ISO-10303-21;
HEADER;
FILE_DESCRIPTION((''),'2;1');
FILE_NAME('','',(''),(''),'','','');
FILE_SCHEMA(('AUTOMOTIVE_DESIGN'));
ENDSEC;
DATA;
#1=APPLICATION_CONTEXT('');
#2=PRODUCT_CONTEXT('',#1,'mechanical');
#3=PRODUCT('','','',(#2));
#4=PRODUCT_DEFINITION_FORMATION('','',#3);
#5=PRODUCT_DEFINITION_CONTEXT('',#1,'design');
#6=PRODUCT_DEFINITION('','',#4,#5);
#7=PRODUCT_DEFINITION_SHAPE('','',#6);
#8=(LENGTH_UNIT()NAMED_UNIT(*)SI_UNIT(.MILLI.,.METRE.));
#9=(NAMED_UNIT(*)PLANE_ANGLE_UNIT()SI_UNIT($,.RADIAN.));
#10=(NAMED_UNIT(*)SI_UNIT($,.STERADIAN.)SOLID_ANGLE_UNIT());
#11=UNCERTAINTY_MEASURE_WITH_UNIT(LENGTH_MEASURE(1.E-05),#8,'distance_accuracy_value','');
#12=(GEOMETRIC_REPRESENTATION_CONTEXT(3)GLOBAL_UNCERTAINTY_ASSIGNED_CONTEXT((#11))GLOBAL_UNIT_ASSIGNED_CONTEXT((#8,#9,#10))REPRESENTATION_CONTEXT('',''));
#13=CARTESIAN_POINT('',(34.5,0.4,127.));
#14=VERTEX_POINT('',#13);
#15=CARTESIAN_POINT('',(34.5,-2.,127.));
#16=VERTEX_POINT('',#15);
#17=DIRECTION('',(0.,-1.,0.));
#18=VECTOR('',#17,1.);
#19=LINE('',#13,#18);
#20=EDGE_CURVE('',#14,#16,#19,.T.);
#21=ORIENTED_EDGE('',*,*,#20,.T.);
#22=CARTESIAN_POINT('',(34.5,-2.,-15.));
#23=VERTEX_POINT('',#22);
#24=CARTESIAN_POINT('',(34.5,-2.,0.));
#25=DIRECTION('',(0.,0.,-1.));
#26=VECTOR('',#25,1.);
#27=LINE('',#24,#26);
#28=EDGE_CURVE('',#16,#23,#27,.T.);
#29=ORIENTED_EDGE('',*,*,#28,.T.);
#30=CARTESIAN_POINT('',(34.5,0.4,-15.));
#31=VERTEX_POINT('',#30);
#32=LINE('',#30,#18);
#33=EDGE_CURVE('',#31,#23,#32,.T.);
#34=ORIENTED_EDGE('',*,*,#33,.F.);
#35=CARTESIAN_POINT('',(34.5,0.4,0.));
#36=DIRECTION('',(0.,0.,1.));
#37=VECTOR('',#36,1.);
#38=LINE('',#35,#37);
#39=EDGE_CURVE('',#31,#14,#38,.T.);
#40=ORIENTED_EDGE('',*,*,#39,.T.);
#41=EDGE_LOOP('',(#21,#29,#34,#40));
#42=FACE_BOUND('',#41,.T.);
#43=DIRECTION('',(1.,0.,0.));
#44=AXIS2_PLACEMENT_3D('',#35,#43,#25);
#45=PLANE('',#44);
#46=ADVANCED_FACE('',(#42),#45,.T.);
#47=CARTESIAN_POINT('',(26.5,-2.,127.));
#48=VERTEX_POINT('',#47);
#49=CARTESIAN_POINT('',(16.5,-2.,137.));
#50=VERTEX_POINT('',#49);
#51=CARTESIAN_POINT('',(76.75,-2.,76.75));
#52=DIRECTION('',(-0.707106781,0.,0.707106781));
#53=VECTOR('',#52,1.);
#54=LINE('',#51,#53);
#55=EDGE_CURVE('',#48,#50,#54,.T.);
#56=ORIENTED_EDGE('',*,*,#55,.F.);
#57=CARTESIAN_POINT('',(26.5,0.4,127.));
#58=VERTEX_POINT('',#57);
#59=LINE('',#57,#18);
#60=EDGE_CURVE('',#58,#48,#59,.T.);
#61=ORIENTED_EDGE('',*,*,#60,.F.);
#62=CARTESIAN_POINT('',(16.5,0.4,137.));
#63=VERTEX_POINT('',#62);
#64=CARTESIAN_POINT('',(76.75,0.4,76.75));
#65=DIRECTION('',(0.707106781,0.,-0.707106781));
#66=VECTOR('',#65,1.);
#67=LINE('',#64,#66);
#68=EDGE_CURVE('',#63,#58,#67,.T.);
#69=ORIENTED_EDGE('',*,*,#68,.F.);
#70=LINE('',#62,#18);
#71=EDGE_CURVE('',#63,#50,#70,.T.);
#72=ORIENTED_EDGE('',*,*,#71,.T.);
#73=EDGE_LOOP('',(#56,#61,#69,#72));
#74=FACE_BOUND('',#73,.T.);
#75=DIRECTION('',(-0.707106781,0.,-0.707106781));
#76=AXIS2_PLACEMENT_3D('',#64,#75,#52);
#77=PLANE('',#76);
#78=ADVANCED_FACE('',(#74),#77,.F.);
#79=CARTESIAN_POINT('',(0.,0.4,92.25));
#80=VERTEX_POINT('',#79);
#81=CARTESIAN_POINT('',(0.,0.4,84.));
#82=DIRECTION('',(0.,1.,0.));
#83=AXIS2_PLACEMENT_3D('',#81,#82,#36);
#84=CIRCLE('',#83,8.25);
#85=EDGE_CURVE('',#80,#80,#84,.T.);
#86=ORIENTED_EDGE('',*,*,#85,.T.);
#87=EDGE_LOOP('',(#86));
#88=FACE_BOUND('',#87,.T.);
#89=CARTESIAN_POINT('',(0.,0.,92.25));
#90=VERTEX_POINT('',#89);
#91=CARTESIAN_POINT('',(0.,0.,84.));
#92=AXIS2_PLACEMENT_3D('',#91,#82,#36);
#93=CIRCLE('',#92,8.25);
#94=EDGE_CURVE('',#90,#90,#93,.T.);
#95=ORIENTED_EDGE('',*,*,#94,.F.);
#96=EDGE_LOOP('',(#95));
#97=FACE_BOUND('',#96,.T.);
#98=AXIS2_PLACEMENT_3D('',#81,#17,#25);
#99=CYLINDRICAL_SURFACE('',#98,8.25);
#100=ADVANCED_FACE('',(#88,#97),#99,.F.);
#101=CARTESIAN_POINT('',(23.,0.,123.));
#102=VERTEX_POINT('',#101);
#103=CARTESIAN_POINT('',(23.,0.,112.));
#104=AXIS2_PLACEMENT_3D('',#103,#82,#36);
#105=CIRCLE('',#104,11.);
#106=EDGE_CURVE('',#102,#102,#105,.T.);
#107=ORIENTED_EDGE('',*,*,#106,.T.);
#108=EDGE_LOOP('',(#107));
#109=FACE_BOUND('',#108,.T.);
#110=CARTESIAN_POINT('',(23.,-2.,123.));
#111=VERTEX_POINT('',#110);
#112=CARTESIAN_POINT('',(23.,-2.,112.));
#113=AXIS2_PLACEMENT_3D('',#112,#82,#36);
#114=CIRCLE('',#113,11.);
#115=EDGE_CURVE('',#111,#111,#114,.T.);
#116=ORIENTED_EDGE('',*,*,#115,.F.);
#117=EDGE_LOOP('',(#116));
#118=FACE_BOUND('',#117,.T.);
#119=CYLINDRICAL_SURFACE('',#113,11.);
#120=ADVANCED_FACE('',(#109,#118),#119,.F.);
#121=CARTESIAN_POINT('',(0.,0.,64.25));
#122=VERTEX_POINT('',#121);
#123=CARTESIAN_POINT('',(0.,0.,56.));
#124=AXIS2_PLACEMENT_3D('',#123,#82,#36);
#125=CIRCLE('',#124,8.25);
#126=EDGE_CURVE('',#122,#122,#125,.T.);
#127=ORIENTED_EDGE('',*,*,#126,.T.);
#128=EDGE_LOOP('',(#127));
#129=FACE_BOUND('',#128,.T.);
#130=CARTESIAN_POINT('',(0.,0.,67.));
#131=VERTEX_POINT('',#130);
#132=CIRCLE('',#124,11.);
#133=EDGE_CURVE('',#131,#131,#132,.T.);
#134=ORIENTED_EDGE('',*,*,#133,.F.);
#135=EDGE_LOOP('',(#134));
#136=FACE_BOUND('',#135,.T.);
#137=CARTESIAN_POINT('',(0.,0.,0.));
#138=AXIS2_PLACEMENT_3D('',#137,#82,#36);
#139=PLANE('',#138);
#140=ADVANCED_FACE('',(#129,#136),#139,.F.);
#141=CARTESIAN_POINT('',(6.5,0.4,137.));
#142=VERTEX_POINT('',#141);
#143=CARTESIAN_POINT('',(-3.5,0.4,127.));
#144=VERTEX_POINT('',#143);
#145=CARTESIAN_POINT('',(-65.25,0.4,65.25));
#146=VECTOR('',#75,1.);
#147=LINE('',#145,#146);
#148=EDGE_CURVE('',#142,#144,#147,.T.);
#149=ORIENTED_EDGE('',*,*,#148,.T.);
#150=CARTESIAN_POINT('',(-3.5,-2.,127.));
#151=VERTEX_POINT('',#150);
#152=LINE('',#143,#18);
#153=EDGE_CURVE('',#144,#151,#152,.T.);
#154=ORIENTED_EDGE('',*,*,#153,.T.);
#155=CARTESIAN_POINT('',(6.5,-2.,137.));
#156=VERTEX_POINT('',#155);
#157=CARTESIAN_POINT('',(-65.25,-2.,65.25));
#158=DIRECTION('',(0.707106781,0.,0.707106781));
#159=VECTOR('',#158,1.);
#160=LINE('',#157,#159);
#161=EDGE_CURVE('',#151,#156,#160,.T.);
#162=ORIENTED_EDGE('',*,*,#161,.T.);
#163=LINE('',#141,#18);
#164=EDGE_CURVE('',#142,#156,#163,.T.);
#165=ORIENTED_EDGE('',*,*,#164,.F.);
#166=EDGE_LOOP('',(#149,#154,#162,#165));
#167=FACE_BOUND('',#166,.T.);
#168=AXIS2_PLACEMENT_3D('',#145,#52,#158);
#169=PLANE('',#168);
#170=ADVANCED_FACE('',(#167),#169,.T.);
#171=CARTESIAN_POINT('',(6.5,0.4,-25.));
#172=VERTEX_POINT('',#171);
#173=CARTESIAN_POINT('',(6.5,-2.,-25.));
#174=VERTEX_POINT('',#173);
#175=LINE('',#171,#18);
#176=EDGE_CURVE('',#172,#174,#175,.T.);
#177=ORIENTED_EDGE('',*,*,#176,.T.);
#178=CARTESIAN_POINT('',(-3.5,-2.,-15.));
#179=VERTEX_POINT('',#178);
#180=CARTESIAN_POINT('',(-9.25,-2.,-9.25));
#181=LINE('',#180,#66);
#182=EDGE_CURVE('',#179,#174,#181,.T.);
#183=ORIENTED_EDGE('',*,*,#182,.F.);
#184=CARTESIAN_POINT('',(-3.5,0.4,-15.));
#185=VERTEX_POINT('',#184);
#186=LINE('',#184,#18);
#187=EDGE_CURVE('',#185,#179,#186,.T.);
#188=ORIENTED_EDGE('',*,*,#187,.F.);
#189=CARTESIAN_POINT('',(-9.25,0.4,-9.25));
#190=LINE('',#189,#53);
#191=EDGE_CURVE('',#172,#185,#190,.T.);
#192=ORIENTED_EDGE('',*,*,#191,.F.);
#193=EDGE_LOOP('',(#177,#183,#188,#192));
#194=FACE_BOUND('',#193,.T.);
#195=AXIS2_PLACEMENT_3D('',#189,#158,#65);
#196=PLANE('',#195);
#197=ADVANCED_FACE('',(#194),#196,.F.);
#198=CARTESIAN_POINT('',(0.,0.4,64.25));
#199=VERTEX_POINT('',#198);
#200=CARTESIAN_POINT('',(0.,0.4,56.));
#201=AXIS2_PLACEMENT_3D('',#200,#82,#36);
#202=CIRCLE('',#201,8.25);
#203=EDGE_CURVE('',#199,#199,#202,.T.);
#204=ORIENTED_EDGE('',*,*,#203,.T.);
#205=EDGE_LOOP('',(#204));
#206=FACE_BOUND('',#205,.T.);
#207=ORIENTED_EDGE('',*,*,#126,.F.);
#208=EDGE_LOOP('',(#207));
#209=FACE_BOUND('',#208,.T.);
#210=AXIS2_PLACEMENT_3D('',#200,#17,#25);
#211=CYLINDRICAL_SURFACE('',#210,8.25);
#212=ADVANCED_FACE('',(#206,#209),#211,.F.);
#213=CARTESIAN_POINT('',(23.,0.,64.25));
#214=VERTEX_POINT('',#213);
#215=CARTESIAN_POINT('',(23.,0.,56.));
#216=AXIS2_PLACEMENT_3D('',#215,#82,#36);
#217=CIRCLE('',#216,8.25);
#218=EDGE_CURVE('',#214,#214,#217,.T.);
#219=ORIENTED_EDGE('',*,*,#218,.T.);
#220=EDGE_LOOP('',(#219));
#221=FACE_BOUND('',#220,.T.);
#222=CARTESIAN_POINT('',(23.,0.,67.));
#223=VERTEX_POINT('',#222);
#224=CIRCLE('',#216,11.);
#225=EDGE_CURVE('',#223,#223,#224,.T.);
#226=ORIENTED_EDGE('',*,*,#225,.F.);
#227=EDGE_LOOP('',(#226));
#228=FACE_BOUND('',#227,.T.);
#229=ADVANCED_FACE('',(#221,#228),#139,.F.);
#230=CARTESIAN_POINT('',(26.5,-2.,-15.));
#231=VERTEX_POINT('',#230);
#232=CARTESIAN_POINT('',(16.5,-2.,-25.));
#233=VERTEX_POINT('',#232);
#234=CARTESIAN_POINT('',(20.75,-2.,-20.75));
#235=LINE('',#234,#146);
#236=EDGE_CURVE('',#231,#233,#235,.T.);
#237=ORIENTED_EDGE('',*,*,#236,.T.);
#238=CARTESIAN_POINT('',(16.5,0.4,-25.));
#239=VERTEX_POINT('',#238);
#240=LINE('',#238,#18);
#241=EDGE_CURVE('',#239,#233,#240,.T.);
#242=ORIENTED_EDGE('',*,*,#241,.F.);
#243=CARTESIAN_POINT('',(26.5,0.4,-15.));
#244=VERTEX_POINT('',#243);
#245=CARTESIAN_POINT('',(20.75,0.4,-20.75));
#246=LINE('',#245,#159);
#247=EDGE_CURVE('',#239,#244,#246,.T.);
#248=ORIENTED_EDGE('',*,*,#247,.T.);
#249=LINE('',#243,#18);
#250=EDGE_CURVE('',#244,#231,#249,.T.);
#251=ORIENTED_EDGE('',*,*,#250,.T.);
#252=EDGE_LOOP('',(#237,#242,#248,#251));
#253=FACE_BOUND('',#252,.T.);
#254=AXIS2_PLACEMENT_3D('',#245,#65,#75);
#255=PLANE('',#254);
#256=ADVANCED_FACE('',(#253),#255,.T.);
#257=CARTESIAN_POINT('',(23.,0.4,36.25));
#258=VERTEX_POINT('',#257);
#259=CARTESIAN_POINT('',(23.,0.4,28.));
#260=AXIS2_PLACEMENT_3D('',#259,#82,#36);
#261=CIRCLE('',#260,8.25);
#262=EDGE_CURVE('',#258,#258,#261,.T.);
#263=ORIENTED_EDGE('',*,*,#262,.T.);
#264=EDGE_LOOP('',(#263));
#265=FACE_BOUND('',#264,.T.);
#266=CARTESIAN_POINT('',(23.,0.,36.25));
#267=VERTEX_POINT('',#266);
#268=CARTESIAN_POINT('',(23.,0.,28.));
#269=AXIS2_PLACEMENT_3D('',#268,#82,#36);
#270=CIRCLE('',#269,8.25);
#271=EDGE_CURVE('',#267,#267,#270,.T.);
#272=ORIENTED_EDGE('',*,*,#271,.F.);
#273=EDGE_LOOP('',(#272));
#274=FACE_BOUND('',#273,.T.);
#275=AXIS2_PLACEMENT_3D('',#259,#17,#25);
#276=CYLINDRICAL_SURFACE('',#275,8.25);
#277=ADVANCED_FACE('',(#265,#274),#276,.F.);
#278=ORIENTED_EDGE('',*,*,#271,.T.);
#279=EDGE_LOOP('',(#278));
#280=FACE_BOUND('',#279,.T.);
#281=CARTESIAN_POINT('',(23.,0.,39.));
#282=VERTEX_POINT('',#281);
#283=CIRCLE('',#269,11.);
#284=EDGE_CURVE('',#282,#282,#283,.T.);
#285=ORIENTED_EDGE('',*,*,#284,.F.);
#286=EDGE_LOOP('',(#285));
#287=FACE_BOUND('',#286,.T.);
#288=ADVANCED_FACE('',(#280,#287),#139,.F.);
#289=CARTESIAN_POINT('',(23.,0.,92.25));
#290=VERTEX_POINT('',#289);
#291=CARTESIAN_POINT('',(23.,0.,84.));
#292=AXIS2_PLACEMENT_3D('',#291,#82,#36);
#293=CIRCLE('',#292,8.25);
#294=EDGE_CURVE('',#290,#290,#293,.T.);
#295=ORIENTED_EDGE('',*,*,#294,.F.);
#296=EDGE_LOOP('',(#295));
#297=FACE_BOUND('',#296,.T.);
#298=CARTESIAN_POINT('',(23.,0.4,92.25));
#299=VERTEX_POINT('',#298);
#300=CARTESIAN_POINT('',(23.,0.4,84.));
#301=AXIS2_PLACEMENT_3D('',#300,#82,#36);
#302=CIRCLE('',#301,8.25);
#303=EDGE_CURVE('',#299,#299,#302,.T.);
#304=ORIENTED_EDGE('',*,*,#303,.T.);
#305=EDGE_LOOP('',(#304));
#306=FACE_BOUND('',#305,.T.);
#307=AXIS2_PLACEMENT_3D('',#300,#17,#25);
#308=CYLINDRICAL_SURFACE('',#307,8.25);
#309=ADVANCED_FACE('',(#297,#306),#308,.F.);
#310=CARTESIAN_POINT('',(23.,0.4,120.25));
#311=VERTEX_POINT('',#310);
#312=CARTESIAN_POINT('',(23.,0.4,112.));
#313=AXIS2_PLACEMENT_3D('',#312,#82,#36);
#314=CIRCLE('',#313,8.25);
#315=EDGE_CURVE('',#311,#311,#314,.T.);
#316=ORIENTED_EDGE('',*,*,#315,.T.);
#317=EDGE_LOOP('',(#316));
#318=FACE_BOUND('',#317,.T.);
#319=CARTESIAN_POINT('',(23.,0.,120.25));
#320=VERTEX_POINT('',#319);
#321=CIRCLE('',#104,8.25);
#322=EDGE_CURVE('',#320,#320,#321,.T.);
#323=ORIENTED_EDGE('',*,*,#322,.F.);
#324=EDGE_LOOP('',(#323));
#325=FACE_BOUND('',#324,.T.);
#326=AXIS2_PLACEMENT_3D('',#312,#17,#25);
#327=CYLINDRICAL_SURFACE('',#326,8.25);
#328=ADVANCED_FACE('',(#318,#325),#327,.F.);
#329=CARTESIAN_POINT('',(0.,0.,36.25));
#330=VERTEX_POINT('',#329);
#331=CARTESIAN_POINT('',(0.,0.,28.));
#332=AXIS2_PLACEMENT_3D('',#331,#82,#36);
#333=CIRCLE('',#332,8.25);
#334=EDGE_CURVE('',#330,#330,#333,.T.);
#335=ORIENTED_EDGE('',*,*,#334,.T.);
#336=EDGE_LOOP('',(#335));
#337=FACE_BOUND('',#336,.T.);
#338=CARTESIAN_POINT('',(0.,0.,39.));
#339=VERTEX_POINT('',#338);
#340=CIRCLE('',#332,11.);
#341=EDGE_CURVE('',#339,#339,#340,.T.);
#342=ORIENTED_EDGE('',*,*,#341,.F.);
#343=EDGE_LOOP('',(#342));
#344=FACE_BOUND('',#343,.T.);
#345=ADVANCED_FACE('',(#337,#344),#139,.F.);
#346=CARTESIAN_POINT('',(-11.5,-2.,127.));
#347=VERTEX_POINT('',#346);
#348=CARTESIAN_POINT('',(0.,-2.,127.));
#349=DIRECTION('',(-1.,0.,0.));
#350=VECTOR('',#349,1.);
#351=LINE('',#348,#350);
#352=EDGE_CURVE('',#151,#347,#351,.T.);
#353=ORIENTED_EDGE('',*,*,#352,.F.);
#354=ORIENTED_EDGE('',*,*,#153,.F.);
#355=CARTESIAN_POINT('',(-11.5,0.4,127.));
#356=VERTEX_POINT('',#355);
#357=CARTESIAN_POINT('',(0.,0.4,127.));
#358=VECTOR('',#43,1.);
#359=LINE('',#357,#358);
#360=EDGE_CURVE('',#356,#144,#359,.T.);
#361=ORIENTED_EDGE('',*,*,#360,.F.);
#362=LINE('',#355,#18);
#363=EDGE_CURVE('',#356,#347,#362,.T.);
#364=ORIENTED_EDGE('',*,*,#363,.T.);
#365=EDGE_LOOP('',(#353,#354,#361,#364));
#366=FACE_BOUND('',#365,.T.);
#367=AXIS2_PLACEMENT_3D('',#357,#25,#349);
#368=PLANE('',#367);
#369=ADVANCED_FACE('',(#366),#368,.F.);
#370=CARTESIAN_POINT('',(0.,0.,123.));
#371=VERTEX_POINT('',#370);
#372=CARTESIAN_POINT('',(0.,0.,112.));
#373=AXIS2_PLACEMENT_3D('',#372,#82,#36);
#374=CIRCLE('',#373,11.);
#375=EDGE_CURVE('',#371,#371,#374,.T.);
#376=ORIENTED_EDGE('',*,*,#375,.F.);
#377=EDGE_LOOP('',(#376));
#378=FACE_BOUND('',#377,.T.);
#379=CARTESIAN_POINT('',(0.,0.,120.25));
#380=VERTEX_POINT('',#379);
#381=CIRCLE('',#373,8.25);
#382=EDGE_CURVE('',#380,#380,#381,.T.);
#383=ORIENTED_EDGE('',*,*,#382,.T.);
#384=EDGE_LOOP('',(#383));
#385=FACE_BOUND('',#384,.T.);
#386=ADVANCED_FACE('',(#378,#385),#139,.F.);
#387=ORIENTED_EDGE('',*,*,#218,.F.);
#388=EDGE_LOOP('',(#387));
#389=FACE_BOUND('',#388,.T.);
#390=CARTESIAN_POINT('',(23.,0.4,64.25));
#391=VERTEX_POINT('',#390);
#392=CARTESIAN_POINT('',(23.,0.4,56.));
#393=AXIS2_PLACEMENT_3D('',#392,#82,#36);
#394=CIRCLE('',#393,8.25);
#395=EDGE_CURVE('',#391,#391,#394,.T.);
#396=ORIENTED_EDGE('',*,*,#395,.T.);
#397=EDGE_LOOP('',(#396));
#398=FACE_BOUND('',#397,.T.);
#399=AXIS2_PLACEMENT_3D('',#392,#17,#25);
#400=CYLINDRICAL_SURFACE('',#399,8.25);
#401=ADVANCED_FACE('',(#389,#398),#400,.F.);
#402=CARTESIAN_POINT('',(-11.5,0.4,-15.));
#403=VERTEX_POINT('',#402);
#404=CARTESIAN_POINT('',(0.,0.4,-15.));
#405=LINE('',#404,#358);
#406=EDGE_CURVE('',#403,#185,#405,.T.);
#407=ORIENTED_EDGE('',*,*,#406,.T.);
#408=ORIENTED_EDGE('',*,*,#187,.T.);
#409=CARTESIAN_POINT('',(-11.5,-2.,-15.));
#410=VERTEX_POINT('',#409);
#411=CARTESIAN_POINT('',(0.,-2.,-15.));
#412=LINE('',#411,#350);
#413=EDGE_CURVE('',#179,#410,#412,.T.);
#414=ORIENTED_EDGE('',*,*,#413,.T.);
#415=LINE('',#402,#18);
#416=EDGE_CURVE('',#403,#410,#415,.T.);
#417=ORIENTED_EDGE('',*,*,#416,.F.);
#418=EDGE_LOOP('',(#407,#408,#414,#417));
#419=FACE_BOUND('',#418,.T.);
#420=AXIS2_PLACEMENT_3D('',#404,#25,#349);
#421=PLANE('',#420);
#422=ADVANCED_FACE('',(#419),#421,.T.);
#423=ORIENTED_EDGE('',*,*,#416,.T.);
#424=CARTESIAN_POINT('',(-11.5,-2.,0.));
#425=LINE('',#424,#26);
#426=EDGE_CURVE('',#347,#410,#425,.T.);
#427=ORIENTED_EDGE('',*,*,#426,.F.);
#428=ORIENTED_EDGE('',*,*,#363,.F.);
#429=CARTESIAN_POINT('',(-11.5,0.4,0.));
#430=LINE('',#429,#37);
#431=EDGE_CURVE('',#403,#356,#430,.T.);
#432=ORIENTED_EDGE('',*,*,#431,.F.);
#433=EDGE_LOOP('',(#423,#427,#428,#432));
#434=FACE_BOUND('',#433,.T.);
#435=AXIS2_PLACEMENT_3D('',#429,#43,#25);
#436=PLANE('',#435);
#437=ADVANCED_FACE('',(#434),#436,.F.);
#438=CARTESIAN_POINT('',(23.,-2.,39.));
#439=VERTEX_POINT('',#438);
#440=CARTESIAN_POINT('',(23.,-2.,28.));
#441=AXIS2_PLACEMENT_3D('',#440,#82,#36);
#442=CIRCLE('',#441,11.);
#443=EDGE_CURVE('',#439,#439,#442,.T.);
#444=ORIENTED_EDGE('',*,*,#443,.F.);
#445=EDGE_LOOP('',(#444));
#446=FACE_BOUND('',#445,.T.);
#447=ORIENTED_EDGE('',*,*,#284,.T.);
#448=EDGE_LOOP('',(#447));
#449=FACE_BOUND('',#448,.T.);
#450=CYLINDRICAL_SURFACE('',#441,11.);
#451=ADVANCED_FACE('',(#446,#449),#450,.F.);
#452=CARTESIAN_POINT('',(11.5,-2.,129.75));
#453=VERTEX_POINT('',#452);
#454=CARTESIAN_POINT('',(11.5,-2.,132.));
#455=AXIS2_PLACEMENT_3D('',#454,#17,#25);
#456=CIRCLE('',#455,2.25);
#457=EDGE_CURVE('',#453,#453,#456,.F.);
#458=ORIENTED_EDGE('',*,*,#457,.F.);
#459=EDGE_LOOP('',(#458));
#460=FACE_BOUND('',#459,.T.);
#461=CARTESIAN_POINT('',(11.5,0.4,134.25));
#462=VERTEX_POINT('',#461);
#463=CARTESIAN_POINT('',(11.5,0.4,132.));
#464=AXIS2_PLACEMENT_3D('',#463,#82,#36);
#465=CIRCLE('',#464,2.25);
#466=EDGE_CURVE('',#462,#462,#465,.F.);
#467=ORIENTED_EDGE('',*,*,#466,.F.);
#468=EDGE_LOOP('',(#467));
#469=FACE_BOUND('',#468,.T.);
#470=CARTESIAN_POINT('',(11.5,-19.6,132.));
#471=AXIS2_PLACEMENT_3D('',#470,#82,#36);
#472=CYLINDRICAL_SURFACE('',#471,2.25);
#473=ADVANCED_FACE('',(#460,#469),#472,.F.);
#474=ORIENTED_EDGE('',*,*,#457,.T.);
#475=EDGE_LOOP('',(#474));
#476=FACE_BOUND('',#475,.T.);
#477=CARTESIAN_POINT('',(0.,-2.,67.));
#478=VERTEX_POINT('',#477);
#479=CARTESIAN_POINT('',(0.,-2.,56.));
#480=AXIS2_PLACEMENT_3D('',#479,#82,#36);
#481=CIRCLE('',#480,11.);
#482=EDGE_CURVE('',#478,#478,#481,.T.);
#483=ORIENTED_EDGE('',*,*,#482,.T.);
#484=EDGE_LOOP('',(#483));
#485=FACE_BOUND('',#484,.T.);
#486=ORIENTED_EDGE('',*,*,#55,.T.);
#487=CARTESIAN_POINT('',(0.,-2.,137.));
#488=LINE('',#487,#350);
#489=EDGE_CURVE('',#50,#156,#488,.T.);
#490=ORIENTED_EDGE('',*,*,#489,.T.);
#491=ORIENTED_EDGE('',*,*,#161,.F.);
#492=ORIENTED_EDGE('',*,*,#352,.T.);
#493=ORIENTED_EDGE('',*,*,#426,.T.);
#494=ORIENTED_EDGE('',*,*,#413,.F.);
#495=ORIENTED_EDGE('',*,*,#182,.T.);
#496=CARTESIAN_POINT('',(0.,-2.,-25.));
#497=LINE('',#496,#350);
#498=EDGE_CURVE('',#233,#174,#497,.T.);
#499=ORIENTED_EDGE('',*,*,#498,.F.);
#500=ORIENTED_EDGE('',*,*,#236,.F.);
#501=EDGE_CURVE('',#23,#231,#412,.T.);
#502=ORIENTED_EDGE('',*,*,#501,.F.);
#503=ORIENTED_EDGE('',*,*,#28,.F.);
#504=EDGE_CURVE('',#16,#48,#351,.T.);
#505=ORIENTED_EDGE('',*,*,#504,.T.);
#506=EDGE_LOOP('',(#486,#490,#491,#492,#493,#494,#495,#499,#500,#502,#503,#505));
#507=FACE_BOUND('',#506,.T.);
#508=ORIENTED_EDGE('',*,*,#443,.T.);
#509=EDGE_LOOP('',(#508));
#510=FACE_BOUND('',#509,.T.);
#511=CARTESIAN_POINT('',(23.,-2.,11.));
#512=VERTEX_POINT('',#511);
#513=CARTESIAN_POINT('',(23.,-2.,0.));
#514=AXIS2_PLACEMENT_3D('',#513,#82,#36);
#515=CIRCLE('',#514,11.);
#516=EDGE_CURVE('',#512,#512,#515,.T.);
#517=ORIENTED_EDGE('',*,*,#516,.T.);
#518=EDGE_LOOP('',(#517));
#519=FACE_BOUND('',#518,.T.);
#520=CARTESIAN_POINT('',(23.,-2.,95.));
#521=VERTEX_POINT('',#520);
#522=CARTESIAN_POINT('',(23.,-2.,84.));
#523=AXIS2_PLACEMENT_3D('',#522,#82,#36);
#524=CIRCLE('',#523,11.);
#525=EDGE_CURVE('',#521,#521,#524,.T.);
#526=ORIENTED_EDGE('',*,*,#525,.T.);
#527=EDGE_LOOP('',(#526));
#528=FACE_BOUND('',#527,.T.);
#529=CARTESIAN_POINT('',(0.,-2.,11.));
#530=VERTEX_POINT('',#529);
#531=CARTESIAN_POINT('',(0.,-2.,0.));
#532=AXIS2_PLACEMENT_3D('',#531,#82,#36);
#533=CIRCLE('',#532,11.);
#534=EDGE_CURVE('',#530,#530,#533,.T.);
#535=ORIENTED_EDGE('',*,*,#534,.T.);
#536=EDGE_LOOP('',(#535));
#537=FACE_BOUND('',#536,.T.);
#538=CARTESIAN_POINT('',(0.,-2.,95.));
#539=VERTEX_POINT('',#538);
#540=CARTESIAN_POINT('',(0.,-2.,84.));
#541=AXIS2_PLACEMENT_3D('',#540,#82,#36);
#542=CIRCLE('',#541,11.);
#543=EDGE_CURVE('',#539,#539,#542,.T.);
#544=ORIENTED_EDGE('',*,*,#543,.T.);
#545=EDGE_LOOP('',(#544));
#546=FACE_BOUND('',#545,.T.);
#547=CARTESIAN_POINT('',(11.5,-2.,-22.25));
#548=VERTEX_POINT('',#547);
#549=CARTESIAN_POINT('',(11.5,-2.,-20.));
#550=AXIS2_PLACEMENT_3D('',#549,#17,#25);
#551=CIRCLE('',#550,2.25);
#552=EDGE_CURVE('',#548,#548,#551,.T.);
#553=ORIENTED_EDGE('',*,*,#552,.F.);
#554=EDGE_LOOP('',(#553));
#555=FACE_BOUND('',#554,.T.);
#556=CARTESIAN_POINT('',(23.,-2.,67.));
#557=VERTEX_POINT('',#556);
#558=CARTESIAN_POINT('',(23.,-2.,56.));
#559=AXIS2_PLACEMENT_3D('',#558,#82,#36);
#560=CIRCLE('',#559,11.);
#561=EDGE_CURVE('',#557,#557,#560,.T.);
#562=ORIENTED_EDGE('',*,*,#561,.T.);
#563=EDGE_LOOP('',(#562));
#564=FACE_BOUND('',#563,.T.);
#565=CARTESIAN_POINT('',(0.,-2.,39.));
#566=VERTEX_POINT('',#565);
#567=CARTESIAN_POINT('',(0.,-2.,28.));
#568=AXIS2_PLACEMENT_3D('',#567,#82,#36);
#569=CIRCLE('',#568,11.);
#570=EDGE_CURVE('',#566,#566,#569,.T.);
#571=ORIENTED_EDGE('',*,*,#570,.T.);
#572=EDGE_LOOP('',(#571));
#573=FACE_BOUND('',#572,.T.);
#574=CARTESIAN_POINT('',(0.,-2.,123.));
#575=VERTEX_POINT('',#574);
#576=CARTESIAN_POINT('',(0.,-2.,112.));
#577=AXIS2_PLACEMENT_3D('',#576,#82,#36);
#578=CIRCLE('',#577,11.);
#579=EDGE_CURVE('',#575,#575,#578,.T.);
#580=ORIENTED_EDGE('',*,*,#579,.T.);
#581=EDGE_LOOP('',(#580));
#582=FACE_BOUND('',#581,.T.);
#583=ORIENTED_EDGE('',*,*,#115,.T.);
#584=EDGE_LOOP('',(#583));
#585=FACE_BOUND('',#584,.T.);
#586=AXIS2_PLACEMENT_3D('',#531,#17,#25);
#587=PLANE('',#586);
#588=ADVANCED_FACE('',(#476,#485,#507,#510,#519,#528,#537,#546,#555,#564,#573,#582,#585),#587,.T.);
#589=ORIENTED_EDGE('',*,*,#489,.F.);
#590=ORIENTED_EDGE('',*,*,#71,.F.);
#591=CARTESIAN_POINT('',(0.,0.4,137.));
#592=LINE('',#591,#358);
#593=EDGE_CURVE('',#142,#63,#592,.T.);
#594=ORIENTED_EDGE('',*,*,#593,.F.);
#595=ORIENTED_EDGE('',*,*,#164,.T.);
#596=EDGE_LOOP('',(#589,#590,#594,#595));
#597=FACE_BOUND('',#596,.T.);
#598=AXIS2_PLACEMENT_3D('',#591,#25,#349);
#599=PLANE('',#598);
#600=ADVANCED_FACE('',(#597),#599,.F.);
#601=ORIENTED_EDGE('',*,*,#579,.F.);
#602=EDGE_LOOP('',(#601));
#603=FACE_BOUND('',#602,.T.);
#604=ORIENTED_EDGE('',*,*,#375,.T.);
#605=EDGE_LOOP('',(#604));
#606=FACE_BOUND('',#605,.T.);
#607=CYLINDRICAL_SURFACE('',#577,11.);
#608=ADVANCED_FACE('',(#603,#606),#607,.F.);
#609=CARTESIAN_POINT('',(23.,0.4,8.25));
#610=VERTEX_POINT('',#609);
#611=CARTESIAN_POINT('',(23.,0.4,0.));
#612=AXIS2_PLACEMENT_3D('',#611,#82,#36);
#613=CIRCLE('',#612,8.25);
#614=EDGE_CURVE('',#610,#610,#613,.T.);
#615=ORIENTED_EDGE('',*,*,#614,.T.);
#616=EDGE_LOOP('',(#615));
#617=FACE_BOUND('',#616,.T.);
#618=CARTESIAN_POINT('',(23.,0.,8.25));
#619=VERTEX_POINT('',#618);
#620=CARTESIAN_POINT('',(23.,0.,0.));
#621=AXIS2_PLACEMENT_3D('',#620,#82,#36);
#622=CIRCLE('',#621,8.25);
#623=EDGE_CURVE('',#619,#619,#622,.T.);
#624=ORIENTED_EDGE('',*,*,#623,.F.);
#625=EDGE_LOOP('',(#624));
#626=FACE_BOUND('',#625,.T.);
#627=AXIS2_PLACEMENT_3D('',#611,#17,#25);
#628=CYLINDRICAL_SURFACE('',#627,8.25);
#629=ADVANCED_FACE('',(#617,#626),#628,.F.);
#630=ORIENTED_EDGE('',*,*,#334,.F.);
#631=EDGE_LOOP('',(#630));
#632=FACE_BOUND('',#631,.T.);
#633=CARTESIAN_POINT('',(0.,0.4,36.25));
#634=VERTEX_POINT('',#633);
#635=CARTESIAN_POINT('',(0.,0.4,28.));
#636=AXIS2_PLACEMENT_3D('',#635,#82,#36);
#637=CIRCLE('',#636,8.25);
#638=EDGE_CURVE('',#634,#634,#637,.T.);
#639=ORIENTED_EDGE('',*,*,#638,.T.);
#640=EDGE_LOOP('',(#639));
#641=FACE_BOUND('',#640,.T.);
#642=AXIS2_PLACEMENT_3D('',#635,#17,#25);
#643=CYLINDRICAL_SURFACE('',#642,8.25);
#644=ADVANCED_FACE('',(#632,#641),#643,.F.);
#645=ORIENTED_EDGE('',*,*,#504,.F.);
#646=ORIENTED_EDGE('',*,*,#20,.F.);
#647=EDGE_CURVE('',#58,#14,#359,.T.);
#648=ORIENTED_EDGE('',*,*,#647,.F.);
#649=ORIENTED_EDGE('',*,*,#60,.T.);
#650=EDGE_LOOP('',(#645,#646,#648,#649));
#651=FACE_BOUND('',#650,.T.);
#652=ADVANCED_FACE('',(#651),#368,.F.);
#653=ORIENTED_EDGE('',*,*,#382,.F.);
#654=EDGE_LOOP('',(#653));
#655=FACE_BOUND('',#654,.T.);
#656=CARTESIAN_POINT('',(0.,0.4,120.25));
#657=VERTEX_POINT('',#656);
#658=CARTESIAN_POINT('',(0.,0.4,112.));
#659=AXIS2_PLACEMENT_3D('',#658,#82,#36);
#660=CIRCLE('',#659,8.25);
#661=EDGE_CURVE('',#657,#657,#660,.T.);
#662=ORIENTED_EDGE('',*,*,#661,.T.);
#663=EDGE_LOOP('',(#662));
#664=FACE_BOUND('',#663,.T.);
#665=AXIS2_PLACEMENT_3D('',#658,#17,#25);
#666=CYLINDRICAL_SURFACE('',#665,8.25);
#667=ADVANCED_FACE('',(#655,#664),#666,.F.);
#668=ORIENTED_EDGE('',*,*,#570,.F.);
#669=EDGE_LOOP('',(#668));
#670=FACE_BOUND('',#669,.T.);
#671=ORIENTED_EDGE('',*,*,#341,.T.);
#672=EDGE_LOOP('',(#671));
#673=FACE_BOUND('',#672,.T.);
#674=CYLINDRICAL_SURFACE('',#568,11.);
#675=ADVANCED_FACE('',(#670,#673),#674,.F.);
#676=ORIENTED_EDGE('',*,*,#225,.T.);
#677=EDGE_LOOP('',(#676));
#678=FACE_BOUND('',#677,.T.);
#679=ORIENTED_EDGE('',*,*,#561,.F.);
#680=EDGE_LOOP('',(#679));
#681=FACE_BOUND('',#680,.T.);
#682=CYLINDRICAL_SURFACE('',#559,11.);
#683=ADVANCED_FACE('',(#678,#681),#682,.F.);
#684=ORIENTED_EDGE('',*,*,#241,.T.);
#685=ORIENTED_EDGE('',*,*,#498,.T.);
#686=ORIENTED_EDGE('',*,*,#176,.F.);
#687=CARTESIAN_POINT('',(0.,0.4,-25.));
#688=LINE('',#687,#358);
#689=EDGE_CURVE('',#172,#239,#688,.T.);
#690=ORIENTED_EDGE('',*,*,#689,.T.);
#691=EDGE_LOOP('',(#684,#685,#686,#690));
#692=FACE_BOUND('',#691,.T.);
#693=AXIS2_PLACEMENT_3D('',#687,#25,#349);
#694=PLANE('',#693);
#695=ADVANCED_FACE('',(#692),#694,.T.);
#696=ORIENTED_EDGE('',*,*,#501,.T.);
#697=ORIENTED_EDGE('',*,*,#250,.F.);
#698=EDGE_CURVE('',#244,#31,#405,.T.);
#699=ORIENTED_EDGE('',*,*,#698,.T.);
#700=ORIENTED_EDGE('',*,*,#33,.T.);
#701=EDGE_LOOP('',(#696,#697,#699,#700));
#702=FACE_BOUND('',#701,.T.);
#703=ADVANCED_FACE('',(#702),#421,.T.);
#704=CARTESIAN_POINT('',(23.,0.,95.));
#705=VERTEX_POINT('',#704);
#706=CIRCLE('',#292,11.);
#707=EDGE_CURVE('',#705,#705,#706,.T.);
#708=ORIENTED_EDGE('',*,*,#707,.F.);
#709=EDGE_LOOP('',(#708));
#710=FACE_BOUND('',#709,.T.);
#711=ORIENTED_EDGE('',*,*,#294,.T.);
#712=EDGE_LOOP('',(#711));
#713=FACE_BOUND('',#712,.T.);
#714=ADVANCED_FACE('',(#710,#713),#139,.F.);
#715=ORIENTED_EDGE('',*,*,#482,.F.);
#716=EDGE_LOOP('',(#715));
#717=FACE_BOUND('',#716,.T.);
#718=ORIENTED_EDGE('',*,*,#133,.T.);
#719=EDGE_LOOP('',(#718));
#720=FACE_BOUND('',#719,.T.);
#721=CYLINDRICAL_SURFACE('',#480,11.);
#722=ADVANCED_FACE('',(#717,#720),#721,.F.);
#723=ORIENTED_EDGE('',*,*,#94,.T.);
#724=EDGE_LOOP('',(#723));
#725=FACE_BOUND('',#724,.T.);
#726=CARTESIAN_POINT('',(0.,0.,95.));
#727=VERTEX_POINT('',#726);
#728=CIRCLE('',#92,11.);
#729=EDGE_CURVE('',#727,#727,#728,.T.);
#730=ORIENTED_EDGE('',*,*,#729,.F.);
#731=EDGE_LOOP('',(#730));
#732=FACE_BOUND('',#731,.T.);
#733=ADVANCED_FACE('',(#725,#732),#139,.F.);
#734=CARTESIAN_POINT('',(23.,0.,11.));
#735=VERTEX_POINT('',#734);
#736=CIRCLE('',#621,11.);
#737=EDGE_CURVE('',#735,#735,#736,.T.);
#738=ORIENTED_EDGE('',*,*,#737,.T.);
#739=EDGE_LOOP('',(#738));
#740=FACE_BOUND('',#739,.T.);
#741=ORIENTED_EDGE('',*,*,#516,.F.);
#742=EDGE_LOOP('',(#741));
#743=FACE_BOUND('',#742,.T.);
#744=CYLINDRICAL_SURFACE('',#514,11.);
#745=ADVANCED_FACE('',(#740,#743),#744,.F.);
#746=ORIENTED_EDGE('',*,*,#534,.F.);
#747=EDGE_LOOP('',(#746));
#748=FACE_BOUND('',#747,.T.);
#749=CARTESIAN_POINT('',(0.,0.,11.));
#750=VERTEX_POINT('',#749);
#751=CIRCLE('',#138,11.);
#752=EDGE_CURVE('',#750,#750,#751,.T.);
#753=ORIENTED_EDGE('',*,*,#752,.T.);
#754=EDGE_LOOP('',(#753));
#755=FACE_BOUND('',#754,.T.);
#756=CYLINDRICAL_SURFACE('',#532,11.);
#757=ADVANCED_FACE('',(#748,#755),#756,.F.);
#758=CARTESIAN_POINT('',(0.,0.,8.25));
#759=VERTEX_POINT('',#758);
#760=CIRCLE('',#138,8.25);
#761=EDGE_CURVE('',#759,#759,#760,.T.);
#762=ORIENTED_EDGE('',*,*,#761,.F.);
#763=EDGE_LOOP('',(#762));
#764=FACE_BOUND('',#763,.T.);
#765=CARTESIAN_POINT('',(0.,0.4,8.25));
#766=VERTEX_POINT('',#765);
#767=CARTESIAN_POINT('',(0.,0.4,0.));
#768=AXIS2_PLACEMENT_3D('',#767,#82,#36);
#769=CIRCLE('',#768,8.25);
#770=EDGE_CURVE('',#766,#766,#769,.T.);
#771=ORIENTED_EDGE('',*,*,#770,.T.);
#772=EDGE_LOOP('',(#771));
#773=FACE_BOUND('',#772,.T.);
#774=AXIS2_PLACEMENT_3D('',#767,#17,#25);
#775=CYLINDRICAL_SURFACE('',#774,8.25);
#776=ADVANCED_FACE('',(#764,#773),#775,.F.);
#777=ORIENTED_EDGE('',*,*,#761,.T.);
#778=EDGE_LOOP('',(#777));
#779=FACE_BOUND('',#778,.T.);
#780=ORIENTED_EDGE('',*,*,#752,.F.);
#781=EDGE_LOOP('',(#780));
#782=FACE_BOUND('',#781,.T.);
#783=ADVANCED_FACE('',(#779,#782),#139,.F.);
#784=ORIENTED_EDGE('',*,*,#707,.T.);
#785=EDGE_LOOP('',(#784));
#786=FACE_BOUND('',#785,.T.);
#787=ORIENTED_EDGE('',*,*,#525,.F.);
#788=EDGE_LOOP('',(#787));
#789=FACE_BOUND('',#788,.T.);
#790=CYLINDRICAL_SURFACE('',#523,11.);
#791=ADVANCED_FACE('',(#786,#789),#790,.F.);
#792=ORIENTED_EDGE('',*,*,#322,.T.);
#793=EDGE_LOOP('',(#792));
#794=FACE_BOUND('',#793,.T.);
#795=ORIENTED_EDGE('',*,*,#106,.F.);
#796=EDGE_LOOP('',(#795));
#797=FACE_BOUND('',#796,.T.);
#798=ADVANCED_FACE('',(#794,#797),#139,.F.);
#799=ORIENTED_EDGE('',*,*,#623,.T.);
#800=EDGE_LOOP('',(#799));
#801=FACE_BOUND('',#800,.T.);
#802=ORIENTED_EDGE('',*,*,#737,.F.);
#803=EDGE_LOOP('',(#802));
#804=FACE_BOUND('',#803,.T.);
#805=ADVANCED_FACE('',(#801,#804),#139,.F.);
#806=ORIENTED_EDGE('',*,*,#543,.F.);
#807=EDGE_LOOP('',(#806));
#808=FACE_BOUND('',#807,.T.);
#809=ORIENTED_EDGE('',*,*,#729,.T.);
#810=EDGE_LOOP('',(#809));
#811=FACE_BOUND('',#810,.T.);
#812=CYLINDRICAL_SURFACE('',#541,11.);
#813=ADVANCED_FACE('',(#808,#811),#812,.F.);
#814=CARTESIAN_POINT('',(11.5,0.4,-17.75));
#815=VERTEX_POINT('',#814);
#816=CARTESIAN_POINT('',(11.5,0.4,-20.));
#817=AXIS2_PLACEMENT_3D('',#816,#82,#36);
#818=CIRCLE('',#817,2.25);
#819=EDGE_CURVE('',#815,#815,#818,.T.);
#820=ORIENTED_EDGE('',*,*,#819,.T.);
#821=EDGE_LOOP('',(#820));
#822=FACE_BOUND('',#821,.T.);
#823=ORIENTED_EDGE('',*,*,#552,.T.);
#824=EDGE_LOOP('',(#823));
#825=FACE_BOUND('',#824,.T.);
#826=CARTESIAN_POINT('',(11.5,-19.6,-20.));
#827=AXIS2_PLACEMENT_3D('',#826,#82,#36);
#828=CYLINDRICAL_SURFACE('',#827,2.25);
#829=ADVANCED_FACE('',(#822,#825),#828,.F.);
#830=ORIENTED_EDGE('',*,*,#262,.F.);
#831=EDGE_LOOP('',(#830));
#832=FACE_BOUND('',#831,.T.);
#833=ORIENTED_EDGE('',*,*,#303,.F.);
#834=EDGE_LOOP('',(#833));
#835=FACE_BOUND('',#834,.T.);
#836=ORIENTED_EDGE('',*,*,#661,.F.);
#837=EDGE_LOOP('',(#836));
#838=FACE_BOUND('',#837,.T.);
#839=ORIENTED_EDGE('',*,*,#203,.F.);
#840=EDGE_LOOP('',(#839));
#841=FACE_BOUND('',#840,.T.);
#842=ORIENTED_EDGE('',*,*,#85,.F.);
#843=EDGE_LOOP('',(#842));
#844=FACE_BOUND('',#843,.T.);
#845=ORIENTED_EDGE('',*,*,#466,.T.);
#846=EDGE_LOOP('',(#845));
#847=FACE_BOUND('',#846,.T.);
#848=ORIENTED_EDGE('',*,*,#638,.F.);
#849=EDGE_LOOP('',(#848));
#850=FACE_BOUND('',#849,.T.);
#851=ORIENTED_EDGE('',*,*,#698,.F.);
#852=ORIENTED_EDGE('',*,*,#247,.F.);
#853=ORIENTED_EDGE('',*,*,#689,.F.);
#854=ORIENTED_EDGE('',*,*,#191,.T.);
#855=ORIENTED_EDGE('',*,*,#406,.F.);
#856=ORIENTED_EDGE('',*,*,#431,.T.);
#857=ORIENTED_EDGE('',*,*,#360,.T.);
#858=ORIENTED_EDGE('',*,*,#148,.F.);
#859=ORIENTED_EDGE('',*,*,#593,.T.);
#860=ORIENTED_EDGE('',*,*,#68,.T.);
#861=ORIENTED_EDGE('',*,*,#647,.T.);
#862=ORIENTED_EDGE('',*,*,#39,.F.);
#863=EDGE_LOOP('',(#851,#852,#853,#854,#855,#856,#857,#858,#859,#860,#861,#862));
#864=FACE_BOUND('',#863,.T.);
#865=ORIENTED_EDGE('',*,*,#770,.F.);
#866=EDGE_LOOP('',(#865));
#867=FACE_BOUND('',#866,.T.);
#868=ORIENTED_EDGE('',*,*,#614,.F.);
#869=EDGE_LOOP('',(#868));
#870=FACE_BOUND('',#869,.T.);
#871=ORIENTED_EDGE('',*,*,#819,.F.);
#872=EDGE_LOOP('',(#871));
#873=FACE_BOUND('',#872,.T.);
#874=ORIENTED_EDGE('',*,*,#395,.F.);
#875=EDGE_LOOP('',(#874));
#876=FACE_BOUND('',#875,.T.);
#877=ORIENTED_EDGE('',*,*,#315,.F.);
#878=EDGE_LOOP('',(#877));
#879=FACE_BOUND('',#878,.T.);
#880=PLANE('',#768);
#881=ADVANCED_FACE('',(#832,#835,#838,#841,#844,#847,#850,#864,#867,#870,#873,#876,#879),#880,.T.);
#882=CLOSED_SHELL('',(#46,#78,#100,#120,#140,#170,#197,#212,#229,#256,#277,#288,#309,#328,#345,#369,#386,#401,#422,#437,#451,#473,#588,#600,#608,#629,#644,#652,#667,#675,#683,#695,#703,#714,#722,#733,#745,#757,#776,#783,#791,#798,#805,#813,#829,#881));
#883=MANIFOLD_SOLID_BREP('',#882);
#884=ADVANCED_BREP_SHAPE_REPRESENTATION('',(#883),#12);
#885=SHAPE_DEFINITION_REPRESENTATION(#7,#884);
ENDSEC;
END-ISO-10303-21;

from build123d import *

# Parameters (mm, degrees)
SZKIC1_R                    = 11
SZKIC1_R_2                  = 10.6
SZKIC1_R_3                  = 10.1
SZKIC1_R_4                  = 8.25
SZKIC1_W                    = 10
SZKIC1_H                    = 10
DODANIE_WYCI_GNI_CIE1_DEPTH = 0.4
SZKIC1_3_R                  = 11
DODANIE_WYCI_GNI_CIE2_DEPTH = 2
SZKIC2_R                    = 2.25
WYTNIJ_WYCI_GNI_CIE1_DEPTH  = 20


with BuildPart() as part:
    # Szkic1 → Dodanie-wyciągnięcie1 (new body)
    # profile 1 of 43: a face of its own
    with BuildSketch(Plane(origin=(0, 0, 0), x_dir=(1, 0, 0), z_dir=(0, 1, 0))):
        Polygon((6.5, 15), (-3.5, 15), (-11.5, 15), (-11.5, -127), (-3.5, -127), (6.5, -127), (16.5, -127), (26.5, -127), (34.5, -127), (34.5, 15), (26.5, 15), (16.5, 15), align=None)
        with Locations((0, -112)):
            Circle(SZKIC1_R, mode=Mode.SUBTRACT)
        with Locations((0, -84)):
            Circle(SZKIC1_R, mode=Mode.SUBTRACT)
        with Locations((0, -56)):
            Circle(SZKIC1_R, mode=Mode.SUBTRACT)
        with Locations((23, -112)):
            Circle(SZKIC1_R, mode=Mode.SUBTRACT)
        with Locations((23, -84)):
            Circle(SZKIC1_R, mode=Mode.SUBTRACT)
        with Locations((23, -56)):
            Circle(SZKIC1_R, mode=Mode.SUBTRACT)
        with Locations((0, -28)):
            Circle(SZKIC1_R, mode=Mode.SUBTRACT)
        Circle(SZKIC1_R, mode=Mode.SUBTRACT)
        with Locations((23, -28)):
            Circle(SZKIC1_R, mode=Mode.SUBTRACT)
        with Locations((23, 0)):
            Circle(SZKIC1_R, mode=Mode.SUBTRACT)
    # profile 2 of 43: a face of its own
    with BuildSketch(Plane(origin=(0, 0, 0), x_dir=(1, 0, 0), z_dir=(0, 1, 0))):
        Polygon((6.5, 15), (-3.5, 15), (-11.5, 15), (-11.5, -127), (-3.5, -127), (6.5, -127), (16.5, -127), (26.5, -127), (34.5, -127), (34.5, 15), (26.5, 15), (16.5, 15), align=None)
        with Locations((0, -112)):
            Circle(SZKIC1_R, mode=Mode.SUBTRACT)
        with Locations((0, -84)):
            Circle(SZKIC1_R, mode=Mode.SUBTRACT)
        with Locations((0, -56)):
            Circle(SZKIC1_R, mode=Mode.SUBTRACT)
        with Locations((23, -112)):
            Circle(SZKIC1_R, mode=Mode.SUBTRACT)
        with Locations((23, -84)):
            Circle(SZKIC1_R, mode=Mode.SUBTRACT)
        with Locations((23, -56)):
            Circle(SZKIC1_R, mode=Mode.SUBTRACT)
        with Locations((0, -28)):
            Circle(SZKIC1_R, mode=Mode.SUBTRACT)
        Circle(SZKIC1_R, mode=Mode.SUBTRACT)
        with Locations((23, -28)):
            Circle(SZKIC1_R, mode=Mode.SUBTRACT)
        with Locations((23, 0)):
            Circle(SZKIC1_R, mode=Mode.SUBTRACT)
    # profile 3 of 43: a face of its own
    with BuildSketch(Plane(origin=(0, 0, 0), x_dir=(1, 0, 0), z_dir=(0, 1, 0))):
        Polygon((6.5, 15), (-3.5, 15), (-11.5, 15), (-11.5, -127), (-3.5, -127), (6.5, -127), (16.5, -127), (26.5, -127), (34.5, -127), (34.5, 15), (26.5, 15), (16.5, 15), align=None)
        with Locations((0, -112)):
            Circle(SZKIC1_R, mode=Mode.SUBTRACT)
        with Locations((0, -84)):
            Circle(SZKIC1_R, mode=Mode.SUBTRACT)
        with Locations((0, -56)):
            Circle(SZKIC1_R, mode=Mode.SUBTRACT)
        with Locations((23, -112)):
            Circle(SZKIC1_R, mode=Mode.SUBTRACT)
        with Locations((23, -84)):
            Circle(SZKIC1_R, mode=Mode.SUBTRACT)
        with Locations((23, -56)):
            Circle(SZKIC1_R, mode=Mode.SUBTRACT)
        with Locations((0, -28)):
            Circle(SZKIC1_R, mode=Mode.SUBTRACT)
        Circle(SZKIC1_R, mode=Mode.SUBTRACT)
        with Locations((23, -28)):
            Circle(SZKIC1_R, mode=Mode.SUBTRACT)
        with Locations((23, 0)):
            Circle(SZKIC1_R, mode=Mode.SUBTRACT)
    # profile 4 of 43: a face of its own
    with BuildSketch(Plane(origin=(0, 0, 0), x_dir=(1, 0, 0), z_dir=(0, 1, 0))):
        with Locations((0, -28)):
            Circle(SZKIC1_R)
        with Locations((0, -28)):
            Circle(SZKIC1_R_2, mode=Mode.SUBTRACT)
    # profile 5 of 43: a face of its own
    with BuildSketch(Plane(origin=(0, 0, 0), x_dir=(1, 0, 0), z_dir=(0, 1, 0))):
        with Locations((0, -28)):
            Circle(SZKIC1_R)
        with Locations((0, -28)):
            Circle(SZKIC1_R_2, mode=Mode.SUBTRACT)
    # profile 6 of 43: a face of its own
    with BuildSketch(Plane(origin=(0, 0, 0), x_dir=(1, 0, 0), z_dir=(0, 1, 0))):
        with Locations((0, -28)):
            Circle(SZKIC1_R_2)
        with Locations((0, -28)):
            Circle(SZKIC1_R_3, mode=Mode.SUBTRACT)
    # profile 7 of 43: a face of its own
    with BuildSketch(Plane(origin=(0, 0, 0), x_dir=(1, 0, 0), z_dir=(0, 1, 0))):
        with Locations((0, -28)):
            Circle(SZKIC1_R_3)
        with Locations(Location((0, -28, 0), (0, 0, 270))):
            Circle(SZKIC1_R_4, mode=Mode.SUBTRACT)
    # profile 8 of 43: a face of its own
    with BuildSketch(Plane(origin=(0, 0, 0), x_dir=(1, 0, 0), z_dir=(0, 1, 0))):
        with Locations((23, -28)):
            Circle(SZKIC1_R)
        with Locations((23, -28)):
            Circle(SZKIC1_R_2, mode=Mode.SUBTRACT)
    # profile 9 of 43: a face of its own
    with BuildSketch(Plane(origin=(0, 0, 0), x_dir=(1, 0, 0), z_dir=(0, 1, 0))):
        with Locations((23, -28)):
            Circle(SZKIC1_R)
        with Locations((23, -28)):
            Circle(SZKIC1_R_2, mode=Mode.SUBTRACT)
    # profile 10 of 43: a face of its own
    with BuildSketch(Plane(origin=(0, 0, 0), x_dir=(1, 0, 0), z_dir=(0, 1, 0))):
        with Locations((23, -28)):
            Circle(SZKIC1_R_2)
        with Locations((23, -28)):
            Circle(SZKIC1_R_3, mode=Mode.SUBTRACT)
    # profile 11 of 43: a face of its own
    with BuildSketch(Plane(origin=(0, 0, 0), x_dir=(1, 0, 0), z_dir=(0, 1, 0))):
        with Locations((23, -28)):
            Circle(SZKIC1_R_3)
        with Locations(Location((23, -28, 0), (0, 0, 270))):
            Circle(SZKIC1_R_4, mode=Mode.SUBTRACT)
    # profile 12 of 43: a face of its own
    with BuildSketch(Plane(origin=(0, 0, 0), x_dir=(1, 0, 0), z_dir=(0, 1, 0))):
        with Locations((23, 0)):
            Circle(SZKIC1_R)
        with Locations((23, 0)):
            Circle(SZKIC1_R_2, mode=Mode.SUBTRACT)
    # profile 13 of 43: a face of its own
    with BuildSketch(Plane(origin=(0, 0, 0), x_dir=(1, 0, 0), z_dir=(0, 1, 0))):
        with Locations((23, 0)):
            Circle(SZKIC1_R)
        with Locations((23, 0)):
            Circle(SZKIC1_R_2, mode=Mode.SUBTRACT)
    # profile 14 of 43: a face of its own
    with BuildSketch(Plane(origin=(0, 0, 0), x_dir=(1, 0, 0), z_dir=(0, 1, 0))):
        with Locations((23, 0)):
            Circle(SZKIC1_R_2)
        with Locations((23, 0)):
            Circle(SZKIC1_R_3, mode=Mode.SUBTRACT)
    # profile 15 of 43: a face of its own
    with BuildSketch(Plane(origin=(0, 0, 0), x_dir=(1, 0, 0), z_dir=(0, 1, 0))):
        with Locations((23, 0)):
            Circle(SZKIC1_R_3)
        with Locations(Location((23, 0, 0), (0, 0, 270))):
            Circle(SZKIC1_R_4, mode=Mode.SUBTRACT)
    # profile 16 of 43: a face of its own
    with BuildSketch(Plane(origin=(0, 0, 0), x_dir=(1, 0, 0), z_dir=(0, 1, 0))):
        Circle(SZKIC1_R)
        Circle(SZKIC1_R_2, mode=Mode.SUBTRACT)
    # profile 17 of 43: a face of its own
    with BuildSketch(Plane(origin=(0, 0, 0), x_dir=(1, 0, 0), z_dir=(0, 1, 0))):
        Circle(SZKIC1_R)
        Circle(SZKIC1_R_2, mode=Mode.SUBTRACT)
    # profile 18 of 43: a face of its own
    with BuildSketch(Plane(origin=(0, 0, 0), x_dir=(1, 0, 0), z_dir=(0, 1, 0))):
        Circle(SZKIC1_R_2)
        Circle(SZKIC1_R_3, mode=Mode.SUBTRACT)
    # profile 19 of 43: a face of its own
    with BuildSketch(Plane(origin=(0, 0, 0), x_dir=(1, 0, 0), z_dir=(0, 1, 0))):
        Circle(SZKIC1_R_3)
        with Locations(Location((0, 0, 0), (0, 0, 270))):
            Circle(SZKIC1_R_4, mode=Mode.SUBTRACT)
    # profile 20 of 43: a face of its own
    with BuildSketch(Plane(origin=(0, 0, 0), x_dir=(1, 0, 0), z_dir=(0, 1, 0))):
        Polygon((6.5, 15), (6.5, 25), (-3.5, 15), align=None)
    # profile 21 of 43: a face of its own
    with BuildSketch(Plane(origin=(0, 0, 0), x_dir=(1, 0, 0), z_dir=(0, 1, 0))):
        with Locations((11.5, 20)):
            Rectangle(SZKIC1_W, SZKIC1_H)
    # profile 22 of 43: a face of its own
    with BuildSketch(Plane(origin=(0, 0, 0), x_dir=(1, 0, 0), z_dir=(0, 1, 0))):
        Polygon((26.5, 15), (16.5, 25), (16.5, 15), align=None)
    # profile 23 of 43: a face of its own
    with BuildSketch(Plane(origin=(0, 0, 0), x_dir=(1, 0, 0), z_dir=(0, 1, 0))):
        with Locations((0, -56)):
            Circle(SZKIC1_R)
        with Locations((0, -56)):
            Circle(SZKIC1_R_2, mode=Mode.SUBTRACT)
    # profile 24 of 43: a face of its own
    with BuildSketch(Plane(origin=(0, 0, 0), x_dir=(1, 0, 0), z_dir=(0, 1, 0))):
        with Locations((0, -56)):
            Circle(SZKIC1_R_2)
        with Locations((0, -56)):
            Circle(SZKIC1_R_3, mode=Mode.SUBTRACT)
    # profile 25 of 43: a face of its own
    with BuildSketch(Plane(origin=(0, 0, 0), x_dir=(1, 0, 0), z_dir=(0, 1, 0))):
        with Locations((0, -56)):
            Circle(SZKIC1_R_3)
        with Locations(Location((0, -56, 0), (0, 0, 270))):
            Circle(SZKIC1_R_4, mode=Mode.SUBTRACT)
    # profile 26 of 43: a face of its own
    with BuildSketch(Plane(origin=(0, 0, 0), x_dir=(1, 0, 0), z_dir=(0, 1, 0))):
        with Locations((23, -56)):
            Circle(SZKIC1_R)
        with Locations((23, -56)):
            Circle(SZKIC1_R_2, mode=Mode.SUBTRACT)
    # profile 27 of 43: a face of its own
    with BuildSketch(Plane(origin=(0, 0, 0), x_dir=(1, 0, 0), z_dir=(0, 1, 0))):
        with Locations((23, -56)):
            Circle(SZKIC1_R_2)
        with Locations((23, -56)):
            Circle(SZKIC1_R_3, mode=Mode.SUBTRACT)
    # profile 28 of 43: a face of its own
    with BuildSketch(Plane(origin=(0, 0, 0), x_dir=(1, 0, 0), z_dir=(0, 1, 0))):
        with Locations((23, -56)):
            Circle(SZKIC1_R_3)
        with Locations(Location((23, -56, 0), (0, 0, 270))):
            Circle(SZKIC1_R_4, mode=Mode.SUBTRACT)
    # profile 29 of 43: a face of its own
    with BuildSketch(Plane(origin=(0, 0, 0), x_dir=(1, 0, 0), z_dir=(0, 1, 0))):
        with Locations((23, -84)):
            Circle(SZKIC1_R)
        with Locations((23, -84)):
            Circle(SZKIC1_R_2, mode=Mode.SUBTRACT)
    # profile 30 of 43: a face of its own
    with BuildSketch(Plane(origin=(0, 0, 0), x_dir=(1, 0, 0), z_dir=(0, 1, 0))):
        with Locations((23, -84)):
            Circle(SZKIC1_R_2)
        with Locations((23, -84)):
            Circle(SZKIC1_R_3, mode=Mode.SUBTRACT)
    # profile 31 of 43: a face of its own
    with BuildSketch(Plane(origin=(0, 0, 0), x_dir=(1, 0, 0), z_dir=(0, 1, 0))):
        with Locations((23, -84)):
            Circle(SZKIC1_R_3)
        with Locations(Location((23, -84, 0), (0, 0, 270))):
            Circle(SZKIC1_R_4, mode=Mode.SUBTRACT)
    # profile 32 of 43: a face of its own
    with BuildSketch(Plane(origin=(0, 0, 0), x_dir=(1, 0, 0), z_dir=(0, 1, 0))):
        with Locations((0, -84)):
            Circle(SZKIC1_R)
        with Locations((0, -84)):
            Circle(SZKIC1_R_2, mode=Mode.SUBTRACT)
    # profile 33 of 43: a face of its own
    with BuildSketch(Plane(origin=(0, 0, 0), x_dir=(1, 0, 0), z_dir=(0, 1, 0))):
        with Locations((0, -84)):
            Circle(SZKIC1_R_2)
        with Locations((0, -84)):
            Circle(SZKIC1_R_3, mode=Mode.SUBTRACT)
    # profile 34 of 43: a face of its own
    with BuildSketch(Plane(origin=(0, 0, 0), x_dir=(1, 0, 0), z_dir=(0, 1, 0))):
        with Locations((0, -84)):
            Circle(SZKIC1_R_3)
        with Locations(Location((0, -84, 0), (0, 0, 270))):
            Circle(SZKIC1_R_4, mode=Mode.SUBTRACT)
    # profile 35 of 43: a face of its own
    with BuildSketch(Plane(origin=(0, 0, 0), x_dir=(1, 0, 0), z_dir=(0, 1, 0))):
        with Locations((23, -112)):
            Circle(SZKIC1_R)
        with Locations((23, -112)):
            Circle(SZKIC1_R_2, mode=Mode.SUBTRACT)
    # profile 36 of 43: a face of its own
    with BuildSketch(Plane(origin=(0, 0, 0), x_dir=(1, 0, 0), z_dir=(0, 1, 0))):
        with Locations((23, -112)):
            Circle(SZKIC1_R_2)
        with Locations((23, -112)):
            Circle(SZKIC1_R_3, mode=Mode.SUBTRACT)
    # profile 37 of 43: a face of its own
    with BuildSketch(Plane(origin=(0, 0, 0), x_dir=(1, 0, 0), z_dir=(0, 1, 0))):
        with Locations((23, -112)):
            Circle(SZKIC1_R_3)
        with Locations(Location((23, -112, 0), (0, 0, 270))):
            Circle(SZKIC1_R_4, mode=Mode.SUBTRACT)
    # profile 38 of 43: a face of its own
    with BuildSketch(Plane(origin=(0, 0, 0), x_dir=(1, 0, 0), z_dir=(0, 1, 0))):
        with Locations((0, -112)):
            Circle(SZKIC1_R)
        with Locations((0, -112)):
            Circle(SZKIC1_R_2, mode=Mode.SUBTRACT)
    # profile 39 of 43: a face of its own
    with BuildSketch(Plane(origin=(0, 0, 0), x_dir=(1, 0, 0), z_dir=(0, 1, 0))):
        with Locations((0, -112)):
            Circle(SZKIC1_R_2)
        with Locations((0, -112)):
            Circle(SZKIC1_R_3, mode=Mode.SUBTRACT)
    # profile 40 of 43: a face of its own
    with BuildSketch(Plane(origin=(0, 0, 0), x_dir=(1, 0, 0), z_dir=(0, 1, 0))):
        with Locations((0, -112)):
            Circle(SZKIC1_R_3)
        with Locations(Location((0, -112, 0), (0, 0, 270))):
            Circle(SZKIC1_R_4, mode=Mode.SUBTRACT)
    # profile 41 of 43: a face of its own
    with BuildSketch(Plane(origin=(0, 0, 0), x_dir=(1, 0, 0), z_dir=(0, 1, 0))):
        with Locations((11.5, -132)):
            Rectangle(SZKIC1_W, SZKIC1_H)
    # profile 42 of 43: a face of its own
    with BuildSketch(Plane(origin=(0, 0, 0), x_dir=(1, 0, 0), z_dir=(0, 1, 0))):
        Polygon((6.5, -127), (-3.5, -127), (6.5, -137), align=None)
    # profile 43 of 43: a face of its own
    with BuildSketch(Plane(origin=(0, 0, 0), x_dir=(1, 0, 0), z_dir=(0, 1, 0))):
        Polygon((16.5, -137), (26.5, -127), (16.5, -127), align=None)
    extrude(amount=DODANIE_WYCI_GNI_CIE1_DEPTH)

    # Szkic1<3> → Dodanie-wyciągnięcie2 (add)
    with BuildSketch(Plane(origin=(0, 0, 0), x_dir=(1, 0, 0), z_dir=(0, 1, 0))):
        Polygon((16.5, 25), (6.5, 25), (-3.5, 15), (-11.5, 15), (-11.5, -127), (-3.5, -127), (6.5, -137), (16.5, -137), (26.5, -127), (34.5, -127), (34.5, 15), (26.5, 15), align=None)
        with Locations(Location((23, 0, 0), (0, 0, 270))):
            Circle(SZKIC1_3_R, mode=Mode.SUBTRACT)
        with Locations(Location((23, -28, 0), (0, 0, 270))):
            Circle(SZKIC1_3_R, mode=Mode.SUBTRACT)
        with Locations(Location((0, -112, 0), (0, 0, 270))):
            Circle(SZKIC1_3_R, mode=Mode.SUBTRACT)
        with Locations(Location((0, -84, 0), (0, 0, 270))):
            Circle(SZKIC1_3_R, mode=Mode.SUBTRACT)
        with Locations(Location((0, -56, 0), (0, 0, 270))):
            Circle(SZKIC1_3_R, mode=Mode.SUBTRACT)
        with Locations(Location((23, -112, 0), (0, 0, 270))):
            Circle(SZKIC1_3_R, mode=Mode.SUBTRACT)
        with Locations(Location((23, -84, 0), (0, 0, 270))):
            Circle(SZKIC1_3_R, mode=Mode.SUBTRACT)
        with Locations(Location((23, -56, 0), (0, 0, 270))):
            Circle(SZKIC1_3_R, mode=Mode.SUBTRACT)
        with Locations(Location((0, -28, 0), (0, 0, 270))):
            Circle(SZKIC1_3_R, mode=Mode.SUBTRACT)
        with Locations(Location((0, 0, 0), (0, 0, 270))):
            Circle(SZKIC1_3_R, mode=Mode.SUBTRACT)
    extrude(amount=-DODANIE_WYCI_GNI_CIE2_DEPTH)

    # Szkic2 → Wytnij-wyciągnięcie1 (cut)
    with BuildSketch(Plane(origin=(0, 0.4, 0), x_dir=(1, 0, 0), z_dir=(0, 1, 0))):
        with BuildLine():
            ThreePointArc((11.5, 22.25), (9.25, 20), (11.5, 17.75))
            Line((11.5, 17.75), (11.5, 22.25))
        make_face()
        with BuildLine():
            Line((11.5, 22.25), (11.5, 17.75))
            ThreePointArc((11.5, 17.75), (13.090990258, 18.409009742), (13.75, 20))
            ThreePointArc((13.75, 20), (13.090990258, 21.590990258), (11.5, 22.25))
        make_face()
        with Locations(Location((11.5, -132, 0), (0, 0, 270))):
            Circle(SZKIC2_R)
    extrude(amount=-WYTNIJ_WYCI_GNI_CIE1_DEPTH, mode=Mode.SUBTRACT)


solid = part.part
